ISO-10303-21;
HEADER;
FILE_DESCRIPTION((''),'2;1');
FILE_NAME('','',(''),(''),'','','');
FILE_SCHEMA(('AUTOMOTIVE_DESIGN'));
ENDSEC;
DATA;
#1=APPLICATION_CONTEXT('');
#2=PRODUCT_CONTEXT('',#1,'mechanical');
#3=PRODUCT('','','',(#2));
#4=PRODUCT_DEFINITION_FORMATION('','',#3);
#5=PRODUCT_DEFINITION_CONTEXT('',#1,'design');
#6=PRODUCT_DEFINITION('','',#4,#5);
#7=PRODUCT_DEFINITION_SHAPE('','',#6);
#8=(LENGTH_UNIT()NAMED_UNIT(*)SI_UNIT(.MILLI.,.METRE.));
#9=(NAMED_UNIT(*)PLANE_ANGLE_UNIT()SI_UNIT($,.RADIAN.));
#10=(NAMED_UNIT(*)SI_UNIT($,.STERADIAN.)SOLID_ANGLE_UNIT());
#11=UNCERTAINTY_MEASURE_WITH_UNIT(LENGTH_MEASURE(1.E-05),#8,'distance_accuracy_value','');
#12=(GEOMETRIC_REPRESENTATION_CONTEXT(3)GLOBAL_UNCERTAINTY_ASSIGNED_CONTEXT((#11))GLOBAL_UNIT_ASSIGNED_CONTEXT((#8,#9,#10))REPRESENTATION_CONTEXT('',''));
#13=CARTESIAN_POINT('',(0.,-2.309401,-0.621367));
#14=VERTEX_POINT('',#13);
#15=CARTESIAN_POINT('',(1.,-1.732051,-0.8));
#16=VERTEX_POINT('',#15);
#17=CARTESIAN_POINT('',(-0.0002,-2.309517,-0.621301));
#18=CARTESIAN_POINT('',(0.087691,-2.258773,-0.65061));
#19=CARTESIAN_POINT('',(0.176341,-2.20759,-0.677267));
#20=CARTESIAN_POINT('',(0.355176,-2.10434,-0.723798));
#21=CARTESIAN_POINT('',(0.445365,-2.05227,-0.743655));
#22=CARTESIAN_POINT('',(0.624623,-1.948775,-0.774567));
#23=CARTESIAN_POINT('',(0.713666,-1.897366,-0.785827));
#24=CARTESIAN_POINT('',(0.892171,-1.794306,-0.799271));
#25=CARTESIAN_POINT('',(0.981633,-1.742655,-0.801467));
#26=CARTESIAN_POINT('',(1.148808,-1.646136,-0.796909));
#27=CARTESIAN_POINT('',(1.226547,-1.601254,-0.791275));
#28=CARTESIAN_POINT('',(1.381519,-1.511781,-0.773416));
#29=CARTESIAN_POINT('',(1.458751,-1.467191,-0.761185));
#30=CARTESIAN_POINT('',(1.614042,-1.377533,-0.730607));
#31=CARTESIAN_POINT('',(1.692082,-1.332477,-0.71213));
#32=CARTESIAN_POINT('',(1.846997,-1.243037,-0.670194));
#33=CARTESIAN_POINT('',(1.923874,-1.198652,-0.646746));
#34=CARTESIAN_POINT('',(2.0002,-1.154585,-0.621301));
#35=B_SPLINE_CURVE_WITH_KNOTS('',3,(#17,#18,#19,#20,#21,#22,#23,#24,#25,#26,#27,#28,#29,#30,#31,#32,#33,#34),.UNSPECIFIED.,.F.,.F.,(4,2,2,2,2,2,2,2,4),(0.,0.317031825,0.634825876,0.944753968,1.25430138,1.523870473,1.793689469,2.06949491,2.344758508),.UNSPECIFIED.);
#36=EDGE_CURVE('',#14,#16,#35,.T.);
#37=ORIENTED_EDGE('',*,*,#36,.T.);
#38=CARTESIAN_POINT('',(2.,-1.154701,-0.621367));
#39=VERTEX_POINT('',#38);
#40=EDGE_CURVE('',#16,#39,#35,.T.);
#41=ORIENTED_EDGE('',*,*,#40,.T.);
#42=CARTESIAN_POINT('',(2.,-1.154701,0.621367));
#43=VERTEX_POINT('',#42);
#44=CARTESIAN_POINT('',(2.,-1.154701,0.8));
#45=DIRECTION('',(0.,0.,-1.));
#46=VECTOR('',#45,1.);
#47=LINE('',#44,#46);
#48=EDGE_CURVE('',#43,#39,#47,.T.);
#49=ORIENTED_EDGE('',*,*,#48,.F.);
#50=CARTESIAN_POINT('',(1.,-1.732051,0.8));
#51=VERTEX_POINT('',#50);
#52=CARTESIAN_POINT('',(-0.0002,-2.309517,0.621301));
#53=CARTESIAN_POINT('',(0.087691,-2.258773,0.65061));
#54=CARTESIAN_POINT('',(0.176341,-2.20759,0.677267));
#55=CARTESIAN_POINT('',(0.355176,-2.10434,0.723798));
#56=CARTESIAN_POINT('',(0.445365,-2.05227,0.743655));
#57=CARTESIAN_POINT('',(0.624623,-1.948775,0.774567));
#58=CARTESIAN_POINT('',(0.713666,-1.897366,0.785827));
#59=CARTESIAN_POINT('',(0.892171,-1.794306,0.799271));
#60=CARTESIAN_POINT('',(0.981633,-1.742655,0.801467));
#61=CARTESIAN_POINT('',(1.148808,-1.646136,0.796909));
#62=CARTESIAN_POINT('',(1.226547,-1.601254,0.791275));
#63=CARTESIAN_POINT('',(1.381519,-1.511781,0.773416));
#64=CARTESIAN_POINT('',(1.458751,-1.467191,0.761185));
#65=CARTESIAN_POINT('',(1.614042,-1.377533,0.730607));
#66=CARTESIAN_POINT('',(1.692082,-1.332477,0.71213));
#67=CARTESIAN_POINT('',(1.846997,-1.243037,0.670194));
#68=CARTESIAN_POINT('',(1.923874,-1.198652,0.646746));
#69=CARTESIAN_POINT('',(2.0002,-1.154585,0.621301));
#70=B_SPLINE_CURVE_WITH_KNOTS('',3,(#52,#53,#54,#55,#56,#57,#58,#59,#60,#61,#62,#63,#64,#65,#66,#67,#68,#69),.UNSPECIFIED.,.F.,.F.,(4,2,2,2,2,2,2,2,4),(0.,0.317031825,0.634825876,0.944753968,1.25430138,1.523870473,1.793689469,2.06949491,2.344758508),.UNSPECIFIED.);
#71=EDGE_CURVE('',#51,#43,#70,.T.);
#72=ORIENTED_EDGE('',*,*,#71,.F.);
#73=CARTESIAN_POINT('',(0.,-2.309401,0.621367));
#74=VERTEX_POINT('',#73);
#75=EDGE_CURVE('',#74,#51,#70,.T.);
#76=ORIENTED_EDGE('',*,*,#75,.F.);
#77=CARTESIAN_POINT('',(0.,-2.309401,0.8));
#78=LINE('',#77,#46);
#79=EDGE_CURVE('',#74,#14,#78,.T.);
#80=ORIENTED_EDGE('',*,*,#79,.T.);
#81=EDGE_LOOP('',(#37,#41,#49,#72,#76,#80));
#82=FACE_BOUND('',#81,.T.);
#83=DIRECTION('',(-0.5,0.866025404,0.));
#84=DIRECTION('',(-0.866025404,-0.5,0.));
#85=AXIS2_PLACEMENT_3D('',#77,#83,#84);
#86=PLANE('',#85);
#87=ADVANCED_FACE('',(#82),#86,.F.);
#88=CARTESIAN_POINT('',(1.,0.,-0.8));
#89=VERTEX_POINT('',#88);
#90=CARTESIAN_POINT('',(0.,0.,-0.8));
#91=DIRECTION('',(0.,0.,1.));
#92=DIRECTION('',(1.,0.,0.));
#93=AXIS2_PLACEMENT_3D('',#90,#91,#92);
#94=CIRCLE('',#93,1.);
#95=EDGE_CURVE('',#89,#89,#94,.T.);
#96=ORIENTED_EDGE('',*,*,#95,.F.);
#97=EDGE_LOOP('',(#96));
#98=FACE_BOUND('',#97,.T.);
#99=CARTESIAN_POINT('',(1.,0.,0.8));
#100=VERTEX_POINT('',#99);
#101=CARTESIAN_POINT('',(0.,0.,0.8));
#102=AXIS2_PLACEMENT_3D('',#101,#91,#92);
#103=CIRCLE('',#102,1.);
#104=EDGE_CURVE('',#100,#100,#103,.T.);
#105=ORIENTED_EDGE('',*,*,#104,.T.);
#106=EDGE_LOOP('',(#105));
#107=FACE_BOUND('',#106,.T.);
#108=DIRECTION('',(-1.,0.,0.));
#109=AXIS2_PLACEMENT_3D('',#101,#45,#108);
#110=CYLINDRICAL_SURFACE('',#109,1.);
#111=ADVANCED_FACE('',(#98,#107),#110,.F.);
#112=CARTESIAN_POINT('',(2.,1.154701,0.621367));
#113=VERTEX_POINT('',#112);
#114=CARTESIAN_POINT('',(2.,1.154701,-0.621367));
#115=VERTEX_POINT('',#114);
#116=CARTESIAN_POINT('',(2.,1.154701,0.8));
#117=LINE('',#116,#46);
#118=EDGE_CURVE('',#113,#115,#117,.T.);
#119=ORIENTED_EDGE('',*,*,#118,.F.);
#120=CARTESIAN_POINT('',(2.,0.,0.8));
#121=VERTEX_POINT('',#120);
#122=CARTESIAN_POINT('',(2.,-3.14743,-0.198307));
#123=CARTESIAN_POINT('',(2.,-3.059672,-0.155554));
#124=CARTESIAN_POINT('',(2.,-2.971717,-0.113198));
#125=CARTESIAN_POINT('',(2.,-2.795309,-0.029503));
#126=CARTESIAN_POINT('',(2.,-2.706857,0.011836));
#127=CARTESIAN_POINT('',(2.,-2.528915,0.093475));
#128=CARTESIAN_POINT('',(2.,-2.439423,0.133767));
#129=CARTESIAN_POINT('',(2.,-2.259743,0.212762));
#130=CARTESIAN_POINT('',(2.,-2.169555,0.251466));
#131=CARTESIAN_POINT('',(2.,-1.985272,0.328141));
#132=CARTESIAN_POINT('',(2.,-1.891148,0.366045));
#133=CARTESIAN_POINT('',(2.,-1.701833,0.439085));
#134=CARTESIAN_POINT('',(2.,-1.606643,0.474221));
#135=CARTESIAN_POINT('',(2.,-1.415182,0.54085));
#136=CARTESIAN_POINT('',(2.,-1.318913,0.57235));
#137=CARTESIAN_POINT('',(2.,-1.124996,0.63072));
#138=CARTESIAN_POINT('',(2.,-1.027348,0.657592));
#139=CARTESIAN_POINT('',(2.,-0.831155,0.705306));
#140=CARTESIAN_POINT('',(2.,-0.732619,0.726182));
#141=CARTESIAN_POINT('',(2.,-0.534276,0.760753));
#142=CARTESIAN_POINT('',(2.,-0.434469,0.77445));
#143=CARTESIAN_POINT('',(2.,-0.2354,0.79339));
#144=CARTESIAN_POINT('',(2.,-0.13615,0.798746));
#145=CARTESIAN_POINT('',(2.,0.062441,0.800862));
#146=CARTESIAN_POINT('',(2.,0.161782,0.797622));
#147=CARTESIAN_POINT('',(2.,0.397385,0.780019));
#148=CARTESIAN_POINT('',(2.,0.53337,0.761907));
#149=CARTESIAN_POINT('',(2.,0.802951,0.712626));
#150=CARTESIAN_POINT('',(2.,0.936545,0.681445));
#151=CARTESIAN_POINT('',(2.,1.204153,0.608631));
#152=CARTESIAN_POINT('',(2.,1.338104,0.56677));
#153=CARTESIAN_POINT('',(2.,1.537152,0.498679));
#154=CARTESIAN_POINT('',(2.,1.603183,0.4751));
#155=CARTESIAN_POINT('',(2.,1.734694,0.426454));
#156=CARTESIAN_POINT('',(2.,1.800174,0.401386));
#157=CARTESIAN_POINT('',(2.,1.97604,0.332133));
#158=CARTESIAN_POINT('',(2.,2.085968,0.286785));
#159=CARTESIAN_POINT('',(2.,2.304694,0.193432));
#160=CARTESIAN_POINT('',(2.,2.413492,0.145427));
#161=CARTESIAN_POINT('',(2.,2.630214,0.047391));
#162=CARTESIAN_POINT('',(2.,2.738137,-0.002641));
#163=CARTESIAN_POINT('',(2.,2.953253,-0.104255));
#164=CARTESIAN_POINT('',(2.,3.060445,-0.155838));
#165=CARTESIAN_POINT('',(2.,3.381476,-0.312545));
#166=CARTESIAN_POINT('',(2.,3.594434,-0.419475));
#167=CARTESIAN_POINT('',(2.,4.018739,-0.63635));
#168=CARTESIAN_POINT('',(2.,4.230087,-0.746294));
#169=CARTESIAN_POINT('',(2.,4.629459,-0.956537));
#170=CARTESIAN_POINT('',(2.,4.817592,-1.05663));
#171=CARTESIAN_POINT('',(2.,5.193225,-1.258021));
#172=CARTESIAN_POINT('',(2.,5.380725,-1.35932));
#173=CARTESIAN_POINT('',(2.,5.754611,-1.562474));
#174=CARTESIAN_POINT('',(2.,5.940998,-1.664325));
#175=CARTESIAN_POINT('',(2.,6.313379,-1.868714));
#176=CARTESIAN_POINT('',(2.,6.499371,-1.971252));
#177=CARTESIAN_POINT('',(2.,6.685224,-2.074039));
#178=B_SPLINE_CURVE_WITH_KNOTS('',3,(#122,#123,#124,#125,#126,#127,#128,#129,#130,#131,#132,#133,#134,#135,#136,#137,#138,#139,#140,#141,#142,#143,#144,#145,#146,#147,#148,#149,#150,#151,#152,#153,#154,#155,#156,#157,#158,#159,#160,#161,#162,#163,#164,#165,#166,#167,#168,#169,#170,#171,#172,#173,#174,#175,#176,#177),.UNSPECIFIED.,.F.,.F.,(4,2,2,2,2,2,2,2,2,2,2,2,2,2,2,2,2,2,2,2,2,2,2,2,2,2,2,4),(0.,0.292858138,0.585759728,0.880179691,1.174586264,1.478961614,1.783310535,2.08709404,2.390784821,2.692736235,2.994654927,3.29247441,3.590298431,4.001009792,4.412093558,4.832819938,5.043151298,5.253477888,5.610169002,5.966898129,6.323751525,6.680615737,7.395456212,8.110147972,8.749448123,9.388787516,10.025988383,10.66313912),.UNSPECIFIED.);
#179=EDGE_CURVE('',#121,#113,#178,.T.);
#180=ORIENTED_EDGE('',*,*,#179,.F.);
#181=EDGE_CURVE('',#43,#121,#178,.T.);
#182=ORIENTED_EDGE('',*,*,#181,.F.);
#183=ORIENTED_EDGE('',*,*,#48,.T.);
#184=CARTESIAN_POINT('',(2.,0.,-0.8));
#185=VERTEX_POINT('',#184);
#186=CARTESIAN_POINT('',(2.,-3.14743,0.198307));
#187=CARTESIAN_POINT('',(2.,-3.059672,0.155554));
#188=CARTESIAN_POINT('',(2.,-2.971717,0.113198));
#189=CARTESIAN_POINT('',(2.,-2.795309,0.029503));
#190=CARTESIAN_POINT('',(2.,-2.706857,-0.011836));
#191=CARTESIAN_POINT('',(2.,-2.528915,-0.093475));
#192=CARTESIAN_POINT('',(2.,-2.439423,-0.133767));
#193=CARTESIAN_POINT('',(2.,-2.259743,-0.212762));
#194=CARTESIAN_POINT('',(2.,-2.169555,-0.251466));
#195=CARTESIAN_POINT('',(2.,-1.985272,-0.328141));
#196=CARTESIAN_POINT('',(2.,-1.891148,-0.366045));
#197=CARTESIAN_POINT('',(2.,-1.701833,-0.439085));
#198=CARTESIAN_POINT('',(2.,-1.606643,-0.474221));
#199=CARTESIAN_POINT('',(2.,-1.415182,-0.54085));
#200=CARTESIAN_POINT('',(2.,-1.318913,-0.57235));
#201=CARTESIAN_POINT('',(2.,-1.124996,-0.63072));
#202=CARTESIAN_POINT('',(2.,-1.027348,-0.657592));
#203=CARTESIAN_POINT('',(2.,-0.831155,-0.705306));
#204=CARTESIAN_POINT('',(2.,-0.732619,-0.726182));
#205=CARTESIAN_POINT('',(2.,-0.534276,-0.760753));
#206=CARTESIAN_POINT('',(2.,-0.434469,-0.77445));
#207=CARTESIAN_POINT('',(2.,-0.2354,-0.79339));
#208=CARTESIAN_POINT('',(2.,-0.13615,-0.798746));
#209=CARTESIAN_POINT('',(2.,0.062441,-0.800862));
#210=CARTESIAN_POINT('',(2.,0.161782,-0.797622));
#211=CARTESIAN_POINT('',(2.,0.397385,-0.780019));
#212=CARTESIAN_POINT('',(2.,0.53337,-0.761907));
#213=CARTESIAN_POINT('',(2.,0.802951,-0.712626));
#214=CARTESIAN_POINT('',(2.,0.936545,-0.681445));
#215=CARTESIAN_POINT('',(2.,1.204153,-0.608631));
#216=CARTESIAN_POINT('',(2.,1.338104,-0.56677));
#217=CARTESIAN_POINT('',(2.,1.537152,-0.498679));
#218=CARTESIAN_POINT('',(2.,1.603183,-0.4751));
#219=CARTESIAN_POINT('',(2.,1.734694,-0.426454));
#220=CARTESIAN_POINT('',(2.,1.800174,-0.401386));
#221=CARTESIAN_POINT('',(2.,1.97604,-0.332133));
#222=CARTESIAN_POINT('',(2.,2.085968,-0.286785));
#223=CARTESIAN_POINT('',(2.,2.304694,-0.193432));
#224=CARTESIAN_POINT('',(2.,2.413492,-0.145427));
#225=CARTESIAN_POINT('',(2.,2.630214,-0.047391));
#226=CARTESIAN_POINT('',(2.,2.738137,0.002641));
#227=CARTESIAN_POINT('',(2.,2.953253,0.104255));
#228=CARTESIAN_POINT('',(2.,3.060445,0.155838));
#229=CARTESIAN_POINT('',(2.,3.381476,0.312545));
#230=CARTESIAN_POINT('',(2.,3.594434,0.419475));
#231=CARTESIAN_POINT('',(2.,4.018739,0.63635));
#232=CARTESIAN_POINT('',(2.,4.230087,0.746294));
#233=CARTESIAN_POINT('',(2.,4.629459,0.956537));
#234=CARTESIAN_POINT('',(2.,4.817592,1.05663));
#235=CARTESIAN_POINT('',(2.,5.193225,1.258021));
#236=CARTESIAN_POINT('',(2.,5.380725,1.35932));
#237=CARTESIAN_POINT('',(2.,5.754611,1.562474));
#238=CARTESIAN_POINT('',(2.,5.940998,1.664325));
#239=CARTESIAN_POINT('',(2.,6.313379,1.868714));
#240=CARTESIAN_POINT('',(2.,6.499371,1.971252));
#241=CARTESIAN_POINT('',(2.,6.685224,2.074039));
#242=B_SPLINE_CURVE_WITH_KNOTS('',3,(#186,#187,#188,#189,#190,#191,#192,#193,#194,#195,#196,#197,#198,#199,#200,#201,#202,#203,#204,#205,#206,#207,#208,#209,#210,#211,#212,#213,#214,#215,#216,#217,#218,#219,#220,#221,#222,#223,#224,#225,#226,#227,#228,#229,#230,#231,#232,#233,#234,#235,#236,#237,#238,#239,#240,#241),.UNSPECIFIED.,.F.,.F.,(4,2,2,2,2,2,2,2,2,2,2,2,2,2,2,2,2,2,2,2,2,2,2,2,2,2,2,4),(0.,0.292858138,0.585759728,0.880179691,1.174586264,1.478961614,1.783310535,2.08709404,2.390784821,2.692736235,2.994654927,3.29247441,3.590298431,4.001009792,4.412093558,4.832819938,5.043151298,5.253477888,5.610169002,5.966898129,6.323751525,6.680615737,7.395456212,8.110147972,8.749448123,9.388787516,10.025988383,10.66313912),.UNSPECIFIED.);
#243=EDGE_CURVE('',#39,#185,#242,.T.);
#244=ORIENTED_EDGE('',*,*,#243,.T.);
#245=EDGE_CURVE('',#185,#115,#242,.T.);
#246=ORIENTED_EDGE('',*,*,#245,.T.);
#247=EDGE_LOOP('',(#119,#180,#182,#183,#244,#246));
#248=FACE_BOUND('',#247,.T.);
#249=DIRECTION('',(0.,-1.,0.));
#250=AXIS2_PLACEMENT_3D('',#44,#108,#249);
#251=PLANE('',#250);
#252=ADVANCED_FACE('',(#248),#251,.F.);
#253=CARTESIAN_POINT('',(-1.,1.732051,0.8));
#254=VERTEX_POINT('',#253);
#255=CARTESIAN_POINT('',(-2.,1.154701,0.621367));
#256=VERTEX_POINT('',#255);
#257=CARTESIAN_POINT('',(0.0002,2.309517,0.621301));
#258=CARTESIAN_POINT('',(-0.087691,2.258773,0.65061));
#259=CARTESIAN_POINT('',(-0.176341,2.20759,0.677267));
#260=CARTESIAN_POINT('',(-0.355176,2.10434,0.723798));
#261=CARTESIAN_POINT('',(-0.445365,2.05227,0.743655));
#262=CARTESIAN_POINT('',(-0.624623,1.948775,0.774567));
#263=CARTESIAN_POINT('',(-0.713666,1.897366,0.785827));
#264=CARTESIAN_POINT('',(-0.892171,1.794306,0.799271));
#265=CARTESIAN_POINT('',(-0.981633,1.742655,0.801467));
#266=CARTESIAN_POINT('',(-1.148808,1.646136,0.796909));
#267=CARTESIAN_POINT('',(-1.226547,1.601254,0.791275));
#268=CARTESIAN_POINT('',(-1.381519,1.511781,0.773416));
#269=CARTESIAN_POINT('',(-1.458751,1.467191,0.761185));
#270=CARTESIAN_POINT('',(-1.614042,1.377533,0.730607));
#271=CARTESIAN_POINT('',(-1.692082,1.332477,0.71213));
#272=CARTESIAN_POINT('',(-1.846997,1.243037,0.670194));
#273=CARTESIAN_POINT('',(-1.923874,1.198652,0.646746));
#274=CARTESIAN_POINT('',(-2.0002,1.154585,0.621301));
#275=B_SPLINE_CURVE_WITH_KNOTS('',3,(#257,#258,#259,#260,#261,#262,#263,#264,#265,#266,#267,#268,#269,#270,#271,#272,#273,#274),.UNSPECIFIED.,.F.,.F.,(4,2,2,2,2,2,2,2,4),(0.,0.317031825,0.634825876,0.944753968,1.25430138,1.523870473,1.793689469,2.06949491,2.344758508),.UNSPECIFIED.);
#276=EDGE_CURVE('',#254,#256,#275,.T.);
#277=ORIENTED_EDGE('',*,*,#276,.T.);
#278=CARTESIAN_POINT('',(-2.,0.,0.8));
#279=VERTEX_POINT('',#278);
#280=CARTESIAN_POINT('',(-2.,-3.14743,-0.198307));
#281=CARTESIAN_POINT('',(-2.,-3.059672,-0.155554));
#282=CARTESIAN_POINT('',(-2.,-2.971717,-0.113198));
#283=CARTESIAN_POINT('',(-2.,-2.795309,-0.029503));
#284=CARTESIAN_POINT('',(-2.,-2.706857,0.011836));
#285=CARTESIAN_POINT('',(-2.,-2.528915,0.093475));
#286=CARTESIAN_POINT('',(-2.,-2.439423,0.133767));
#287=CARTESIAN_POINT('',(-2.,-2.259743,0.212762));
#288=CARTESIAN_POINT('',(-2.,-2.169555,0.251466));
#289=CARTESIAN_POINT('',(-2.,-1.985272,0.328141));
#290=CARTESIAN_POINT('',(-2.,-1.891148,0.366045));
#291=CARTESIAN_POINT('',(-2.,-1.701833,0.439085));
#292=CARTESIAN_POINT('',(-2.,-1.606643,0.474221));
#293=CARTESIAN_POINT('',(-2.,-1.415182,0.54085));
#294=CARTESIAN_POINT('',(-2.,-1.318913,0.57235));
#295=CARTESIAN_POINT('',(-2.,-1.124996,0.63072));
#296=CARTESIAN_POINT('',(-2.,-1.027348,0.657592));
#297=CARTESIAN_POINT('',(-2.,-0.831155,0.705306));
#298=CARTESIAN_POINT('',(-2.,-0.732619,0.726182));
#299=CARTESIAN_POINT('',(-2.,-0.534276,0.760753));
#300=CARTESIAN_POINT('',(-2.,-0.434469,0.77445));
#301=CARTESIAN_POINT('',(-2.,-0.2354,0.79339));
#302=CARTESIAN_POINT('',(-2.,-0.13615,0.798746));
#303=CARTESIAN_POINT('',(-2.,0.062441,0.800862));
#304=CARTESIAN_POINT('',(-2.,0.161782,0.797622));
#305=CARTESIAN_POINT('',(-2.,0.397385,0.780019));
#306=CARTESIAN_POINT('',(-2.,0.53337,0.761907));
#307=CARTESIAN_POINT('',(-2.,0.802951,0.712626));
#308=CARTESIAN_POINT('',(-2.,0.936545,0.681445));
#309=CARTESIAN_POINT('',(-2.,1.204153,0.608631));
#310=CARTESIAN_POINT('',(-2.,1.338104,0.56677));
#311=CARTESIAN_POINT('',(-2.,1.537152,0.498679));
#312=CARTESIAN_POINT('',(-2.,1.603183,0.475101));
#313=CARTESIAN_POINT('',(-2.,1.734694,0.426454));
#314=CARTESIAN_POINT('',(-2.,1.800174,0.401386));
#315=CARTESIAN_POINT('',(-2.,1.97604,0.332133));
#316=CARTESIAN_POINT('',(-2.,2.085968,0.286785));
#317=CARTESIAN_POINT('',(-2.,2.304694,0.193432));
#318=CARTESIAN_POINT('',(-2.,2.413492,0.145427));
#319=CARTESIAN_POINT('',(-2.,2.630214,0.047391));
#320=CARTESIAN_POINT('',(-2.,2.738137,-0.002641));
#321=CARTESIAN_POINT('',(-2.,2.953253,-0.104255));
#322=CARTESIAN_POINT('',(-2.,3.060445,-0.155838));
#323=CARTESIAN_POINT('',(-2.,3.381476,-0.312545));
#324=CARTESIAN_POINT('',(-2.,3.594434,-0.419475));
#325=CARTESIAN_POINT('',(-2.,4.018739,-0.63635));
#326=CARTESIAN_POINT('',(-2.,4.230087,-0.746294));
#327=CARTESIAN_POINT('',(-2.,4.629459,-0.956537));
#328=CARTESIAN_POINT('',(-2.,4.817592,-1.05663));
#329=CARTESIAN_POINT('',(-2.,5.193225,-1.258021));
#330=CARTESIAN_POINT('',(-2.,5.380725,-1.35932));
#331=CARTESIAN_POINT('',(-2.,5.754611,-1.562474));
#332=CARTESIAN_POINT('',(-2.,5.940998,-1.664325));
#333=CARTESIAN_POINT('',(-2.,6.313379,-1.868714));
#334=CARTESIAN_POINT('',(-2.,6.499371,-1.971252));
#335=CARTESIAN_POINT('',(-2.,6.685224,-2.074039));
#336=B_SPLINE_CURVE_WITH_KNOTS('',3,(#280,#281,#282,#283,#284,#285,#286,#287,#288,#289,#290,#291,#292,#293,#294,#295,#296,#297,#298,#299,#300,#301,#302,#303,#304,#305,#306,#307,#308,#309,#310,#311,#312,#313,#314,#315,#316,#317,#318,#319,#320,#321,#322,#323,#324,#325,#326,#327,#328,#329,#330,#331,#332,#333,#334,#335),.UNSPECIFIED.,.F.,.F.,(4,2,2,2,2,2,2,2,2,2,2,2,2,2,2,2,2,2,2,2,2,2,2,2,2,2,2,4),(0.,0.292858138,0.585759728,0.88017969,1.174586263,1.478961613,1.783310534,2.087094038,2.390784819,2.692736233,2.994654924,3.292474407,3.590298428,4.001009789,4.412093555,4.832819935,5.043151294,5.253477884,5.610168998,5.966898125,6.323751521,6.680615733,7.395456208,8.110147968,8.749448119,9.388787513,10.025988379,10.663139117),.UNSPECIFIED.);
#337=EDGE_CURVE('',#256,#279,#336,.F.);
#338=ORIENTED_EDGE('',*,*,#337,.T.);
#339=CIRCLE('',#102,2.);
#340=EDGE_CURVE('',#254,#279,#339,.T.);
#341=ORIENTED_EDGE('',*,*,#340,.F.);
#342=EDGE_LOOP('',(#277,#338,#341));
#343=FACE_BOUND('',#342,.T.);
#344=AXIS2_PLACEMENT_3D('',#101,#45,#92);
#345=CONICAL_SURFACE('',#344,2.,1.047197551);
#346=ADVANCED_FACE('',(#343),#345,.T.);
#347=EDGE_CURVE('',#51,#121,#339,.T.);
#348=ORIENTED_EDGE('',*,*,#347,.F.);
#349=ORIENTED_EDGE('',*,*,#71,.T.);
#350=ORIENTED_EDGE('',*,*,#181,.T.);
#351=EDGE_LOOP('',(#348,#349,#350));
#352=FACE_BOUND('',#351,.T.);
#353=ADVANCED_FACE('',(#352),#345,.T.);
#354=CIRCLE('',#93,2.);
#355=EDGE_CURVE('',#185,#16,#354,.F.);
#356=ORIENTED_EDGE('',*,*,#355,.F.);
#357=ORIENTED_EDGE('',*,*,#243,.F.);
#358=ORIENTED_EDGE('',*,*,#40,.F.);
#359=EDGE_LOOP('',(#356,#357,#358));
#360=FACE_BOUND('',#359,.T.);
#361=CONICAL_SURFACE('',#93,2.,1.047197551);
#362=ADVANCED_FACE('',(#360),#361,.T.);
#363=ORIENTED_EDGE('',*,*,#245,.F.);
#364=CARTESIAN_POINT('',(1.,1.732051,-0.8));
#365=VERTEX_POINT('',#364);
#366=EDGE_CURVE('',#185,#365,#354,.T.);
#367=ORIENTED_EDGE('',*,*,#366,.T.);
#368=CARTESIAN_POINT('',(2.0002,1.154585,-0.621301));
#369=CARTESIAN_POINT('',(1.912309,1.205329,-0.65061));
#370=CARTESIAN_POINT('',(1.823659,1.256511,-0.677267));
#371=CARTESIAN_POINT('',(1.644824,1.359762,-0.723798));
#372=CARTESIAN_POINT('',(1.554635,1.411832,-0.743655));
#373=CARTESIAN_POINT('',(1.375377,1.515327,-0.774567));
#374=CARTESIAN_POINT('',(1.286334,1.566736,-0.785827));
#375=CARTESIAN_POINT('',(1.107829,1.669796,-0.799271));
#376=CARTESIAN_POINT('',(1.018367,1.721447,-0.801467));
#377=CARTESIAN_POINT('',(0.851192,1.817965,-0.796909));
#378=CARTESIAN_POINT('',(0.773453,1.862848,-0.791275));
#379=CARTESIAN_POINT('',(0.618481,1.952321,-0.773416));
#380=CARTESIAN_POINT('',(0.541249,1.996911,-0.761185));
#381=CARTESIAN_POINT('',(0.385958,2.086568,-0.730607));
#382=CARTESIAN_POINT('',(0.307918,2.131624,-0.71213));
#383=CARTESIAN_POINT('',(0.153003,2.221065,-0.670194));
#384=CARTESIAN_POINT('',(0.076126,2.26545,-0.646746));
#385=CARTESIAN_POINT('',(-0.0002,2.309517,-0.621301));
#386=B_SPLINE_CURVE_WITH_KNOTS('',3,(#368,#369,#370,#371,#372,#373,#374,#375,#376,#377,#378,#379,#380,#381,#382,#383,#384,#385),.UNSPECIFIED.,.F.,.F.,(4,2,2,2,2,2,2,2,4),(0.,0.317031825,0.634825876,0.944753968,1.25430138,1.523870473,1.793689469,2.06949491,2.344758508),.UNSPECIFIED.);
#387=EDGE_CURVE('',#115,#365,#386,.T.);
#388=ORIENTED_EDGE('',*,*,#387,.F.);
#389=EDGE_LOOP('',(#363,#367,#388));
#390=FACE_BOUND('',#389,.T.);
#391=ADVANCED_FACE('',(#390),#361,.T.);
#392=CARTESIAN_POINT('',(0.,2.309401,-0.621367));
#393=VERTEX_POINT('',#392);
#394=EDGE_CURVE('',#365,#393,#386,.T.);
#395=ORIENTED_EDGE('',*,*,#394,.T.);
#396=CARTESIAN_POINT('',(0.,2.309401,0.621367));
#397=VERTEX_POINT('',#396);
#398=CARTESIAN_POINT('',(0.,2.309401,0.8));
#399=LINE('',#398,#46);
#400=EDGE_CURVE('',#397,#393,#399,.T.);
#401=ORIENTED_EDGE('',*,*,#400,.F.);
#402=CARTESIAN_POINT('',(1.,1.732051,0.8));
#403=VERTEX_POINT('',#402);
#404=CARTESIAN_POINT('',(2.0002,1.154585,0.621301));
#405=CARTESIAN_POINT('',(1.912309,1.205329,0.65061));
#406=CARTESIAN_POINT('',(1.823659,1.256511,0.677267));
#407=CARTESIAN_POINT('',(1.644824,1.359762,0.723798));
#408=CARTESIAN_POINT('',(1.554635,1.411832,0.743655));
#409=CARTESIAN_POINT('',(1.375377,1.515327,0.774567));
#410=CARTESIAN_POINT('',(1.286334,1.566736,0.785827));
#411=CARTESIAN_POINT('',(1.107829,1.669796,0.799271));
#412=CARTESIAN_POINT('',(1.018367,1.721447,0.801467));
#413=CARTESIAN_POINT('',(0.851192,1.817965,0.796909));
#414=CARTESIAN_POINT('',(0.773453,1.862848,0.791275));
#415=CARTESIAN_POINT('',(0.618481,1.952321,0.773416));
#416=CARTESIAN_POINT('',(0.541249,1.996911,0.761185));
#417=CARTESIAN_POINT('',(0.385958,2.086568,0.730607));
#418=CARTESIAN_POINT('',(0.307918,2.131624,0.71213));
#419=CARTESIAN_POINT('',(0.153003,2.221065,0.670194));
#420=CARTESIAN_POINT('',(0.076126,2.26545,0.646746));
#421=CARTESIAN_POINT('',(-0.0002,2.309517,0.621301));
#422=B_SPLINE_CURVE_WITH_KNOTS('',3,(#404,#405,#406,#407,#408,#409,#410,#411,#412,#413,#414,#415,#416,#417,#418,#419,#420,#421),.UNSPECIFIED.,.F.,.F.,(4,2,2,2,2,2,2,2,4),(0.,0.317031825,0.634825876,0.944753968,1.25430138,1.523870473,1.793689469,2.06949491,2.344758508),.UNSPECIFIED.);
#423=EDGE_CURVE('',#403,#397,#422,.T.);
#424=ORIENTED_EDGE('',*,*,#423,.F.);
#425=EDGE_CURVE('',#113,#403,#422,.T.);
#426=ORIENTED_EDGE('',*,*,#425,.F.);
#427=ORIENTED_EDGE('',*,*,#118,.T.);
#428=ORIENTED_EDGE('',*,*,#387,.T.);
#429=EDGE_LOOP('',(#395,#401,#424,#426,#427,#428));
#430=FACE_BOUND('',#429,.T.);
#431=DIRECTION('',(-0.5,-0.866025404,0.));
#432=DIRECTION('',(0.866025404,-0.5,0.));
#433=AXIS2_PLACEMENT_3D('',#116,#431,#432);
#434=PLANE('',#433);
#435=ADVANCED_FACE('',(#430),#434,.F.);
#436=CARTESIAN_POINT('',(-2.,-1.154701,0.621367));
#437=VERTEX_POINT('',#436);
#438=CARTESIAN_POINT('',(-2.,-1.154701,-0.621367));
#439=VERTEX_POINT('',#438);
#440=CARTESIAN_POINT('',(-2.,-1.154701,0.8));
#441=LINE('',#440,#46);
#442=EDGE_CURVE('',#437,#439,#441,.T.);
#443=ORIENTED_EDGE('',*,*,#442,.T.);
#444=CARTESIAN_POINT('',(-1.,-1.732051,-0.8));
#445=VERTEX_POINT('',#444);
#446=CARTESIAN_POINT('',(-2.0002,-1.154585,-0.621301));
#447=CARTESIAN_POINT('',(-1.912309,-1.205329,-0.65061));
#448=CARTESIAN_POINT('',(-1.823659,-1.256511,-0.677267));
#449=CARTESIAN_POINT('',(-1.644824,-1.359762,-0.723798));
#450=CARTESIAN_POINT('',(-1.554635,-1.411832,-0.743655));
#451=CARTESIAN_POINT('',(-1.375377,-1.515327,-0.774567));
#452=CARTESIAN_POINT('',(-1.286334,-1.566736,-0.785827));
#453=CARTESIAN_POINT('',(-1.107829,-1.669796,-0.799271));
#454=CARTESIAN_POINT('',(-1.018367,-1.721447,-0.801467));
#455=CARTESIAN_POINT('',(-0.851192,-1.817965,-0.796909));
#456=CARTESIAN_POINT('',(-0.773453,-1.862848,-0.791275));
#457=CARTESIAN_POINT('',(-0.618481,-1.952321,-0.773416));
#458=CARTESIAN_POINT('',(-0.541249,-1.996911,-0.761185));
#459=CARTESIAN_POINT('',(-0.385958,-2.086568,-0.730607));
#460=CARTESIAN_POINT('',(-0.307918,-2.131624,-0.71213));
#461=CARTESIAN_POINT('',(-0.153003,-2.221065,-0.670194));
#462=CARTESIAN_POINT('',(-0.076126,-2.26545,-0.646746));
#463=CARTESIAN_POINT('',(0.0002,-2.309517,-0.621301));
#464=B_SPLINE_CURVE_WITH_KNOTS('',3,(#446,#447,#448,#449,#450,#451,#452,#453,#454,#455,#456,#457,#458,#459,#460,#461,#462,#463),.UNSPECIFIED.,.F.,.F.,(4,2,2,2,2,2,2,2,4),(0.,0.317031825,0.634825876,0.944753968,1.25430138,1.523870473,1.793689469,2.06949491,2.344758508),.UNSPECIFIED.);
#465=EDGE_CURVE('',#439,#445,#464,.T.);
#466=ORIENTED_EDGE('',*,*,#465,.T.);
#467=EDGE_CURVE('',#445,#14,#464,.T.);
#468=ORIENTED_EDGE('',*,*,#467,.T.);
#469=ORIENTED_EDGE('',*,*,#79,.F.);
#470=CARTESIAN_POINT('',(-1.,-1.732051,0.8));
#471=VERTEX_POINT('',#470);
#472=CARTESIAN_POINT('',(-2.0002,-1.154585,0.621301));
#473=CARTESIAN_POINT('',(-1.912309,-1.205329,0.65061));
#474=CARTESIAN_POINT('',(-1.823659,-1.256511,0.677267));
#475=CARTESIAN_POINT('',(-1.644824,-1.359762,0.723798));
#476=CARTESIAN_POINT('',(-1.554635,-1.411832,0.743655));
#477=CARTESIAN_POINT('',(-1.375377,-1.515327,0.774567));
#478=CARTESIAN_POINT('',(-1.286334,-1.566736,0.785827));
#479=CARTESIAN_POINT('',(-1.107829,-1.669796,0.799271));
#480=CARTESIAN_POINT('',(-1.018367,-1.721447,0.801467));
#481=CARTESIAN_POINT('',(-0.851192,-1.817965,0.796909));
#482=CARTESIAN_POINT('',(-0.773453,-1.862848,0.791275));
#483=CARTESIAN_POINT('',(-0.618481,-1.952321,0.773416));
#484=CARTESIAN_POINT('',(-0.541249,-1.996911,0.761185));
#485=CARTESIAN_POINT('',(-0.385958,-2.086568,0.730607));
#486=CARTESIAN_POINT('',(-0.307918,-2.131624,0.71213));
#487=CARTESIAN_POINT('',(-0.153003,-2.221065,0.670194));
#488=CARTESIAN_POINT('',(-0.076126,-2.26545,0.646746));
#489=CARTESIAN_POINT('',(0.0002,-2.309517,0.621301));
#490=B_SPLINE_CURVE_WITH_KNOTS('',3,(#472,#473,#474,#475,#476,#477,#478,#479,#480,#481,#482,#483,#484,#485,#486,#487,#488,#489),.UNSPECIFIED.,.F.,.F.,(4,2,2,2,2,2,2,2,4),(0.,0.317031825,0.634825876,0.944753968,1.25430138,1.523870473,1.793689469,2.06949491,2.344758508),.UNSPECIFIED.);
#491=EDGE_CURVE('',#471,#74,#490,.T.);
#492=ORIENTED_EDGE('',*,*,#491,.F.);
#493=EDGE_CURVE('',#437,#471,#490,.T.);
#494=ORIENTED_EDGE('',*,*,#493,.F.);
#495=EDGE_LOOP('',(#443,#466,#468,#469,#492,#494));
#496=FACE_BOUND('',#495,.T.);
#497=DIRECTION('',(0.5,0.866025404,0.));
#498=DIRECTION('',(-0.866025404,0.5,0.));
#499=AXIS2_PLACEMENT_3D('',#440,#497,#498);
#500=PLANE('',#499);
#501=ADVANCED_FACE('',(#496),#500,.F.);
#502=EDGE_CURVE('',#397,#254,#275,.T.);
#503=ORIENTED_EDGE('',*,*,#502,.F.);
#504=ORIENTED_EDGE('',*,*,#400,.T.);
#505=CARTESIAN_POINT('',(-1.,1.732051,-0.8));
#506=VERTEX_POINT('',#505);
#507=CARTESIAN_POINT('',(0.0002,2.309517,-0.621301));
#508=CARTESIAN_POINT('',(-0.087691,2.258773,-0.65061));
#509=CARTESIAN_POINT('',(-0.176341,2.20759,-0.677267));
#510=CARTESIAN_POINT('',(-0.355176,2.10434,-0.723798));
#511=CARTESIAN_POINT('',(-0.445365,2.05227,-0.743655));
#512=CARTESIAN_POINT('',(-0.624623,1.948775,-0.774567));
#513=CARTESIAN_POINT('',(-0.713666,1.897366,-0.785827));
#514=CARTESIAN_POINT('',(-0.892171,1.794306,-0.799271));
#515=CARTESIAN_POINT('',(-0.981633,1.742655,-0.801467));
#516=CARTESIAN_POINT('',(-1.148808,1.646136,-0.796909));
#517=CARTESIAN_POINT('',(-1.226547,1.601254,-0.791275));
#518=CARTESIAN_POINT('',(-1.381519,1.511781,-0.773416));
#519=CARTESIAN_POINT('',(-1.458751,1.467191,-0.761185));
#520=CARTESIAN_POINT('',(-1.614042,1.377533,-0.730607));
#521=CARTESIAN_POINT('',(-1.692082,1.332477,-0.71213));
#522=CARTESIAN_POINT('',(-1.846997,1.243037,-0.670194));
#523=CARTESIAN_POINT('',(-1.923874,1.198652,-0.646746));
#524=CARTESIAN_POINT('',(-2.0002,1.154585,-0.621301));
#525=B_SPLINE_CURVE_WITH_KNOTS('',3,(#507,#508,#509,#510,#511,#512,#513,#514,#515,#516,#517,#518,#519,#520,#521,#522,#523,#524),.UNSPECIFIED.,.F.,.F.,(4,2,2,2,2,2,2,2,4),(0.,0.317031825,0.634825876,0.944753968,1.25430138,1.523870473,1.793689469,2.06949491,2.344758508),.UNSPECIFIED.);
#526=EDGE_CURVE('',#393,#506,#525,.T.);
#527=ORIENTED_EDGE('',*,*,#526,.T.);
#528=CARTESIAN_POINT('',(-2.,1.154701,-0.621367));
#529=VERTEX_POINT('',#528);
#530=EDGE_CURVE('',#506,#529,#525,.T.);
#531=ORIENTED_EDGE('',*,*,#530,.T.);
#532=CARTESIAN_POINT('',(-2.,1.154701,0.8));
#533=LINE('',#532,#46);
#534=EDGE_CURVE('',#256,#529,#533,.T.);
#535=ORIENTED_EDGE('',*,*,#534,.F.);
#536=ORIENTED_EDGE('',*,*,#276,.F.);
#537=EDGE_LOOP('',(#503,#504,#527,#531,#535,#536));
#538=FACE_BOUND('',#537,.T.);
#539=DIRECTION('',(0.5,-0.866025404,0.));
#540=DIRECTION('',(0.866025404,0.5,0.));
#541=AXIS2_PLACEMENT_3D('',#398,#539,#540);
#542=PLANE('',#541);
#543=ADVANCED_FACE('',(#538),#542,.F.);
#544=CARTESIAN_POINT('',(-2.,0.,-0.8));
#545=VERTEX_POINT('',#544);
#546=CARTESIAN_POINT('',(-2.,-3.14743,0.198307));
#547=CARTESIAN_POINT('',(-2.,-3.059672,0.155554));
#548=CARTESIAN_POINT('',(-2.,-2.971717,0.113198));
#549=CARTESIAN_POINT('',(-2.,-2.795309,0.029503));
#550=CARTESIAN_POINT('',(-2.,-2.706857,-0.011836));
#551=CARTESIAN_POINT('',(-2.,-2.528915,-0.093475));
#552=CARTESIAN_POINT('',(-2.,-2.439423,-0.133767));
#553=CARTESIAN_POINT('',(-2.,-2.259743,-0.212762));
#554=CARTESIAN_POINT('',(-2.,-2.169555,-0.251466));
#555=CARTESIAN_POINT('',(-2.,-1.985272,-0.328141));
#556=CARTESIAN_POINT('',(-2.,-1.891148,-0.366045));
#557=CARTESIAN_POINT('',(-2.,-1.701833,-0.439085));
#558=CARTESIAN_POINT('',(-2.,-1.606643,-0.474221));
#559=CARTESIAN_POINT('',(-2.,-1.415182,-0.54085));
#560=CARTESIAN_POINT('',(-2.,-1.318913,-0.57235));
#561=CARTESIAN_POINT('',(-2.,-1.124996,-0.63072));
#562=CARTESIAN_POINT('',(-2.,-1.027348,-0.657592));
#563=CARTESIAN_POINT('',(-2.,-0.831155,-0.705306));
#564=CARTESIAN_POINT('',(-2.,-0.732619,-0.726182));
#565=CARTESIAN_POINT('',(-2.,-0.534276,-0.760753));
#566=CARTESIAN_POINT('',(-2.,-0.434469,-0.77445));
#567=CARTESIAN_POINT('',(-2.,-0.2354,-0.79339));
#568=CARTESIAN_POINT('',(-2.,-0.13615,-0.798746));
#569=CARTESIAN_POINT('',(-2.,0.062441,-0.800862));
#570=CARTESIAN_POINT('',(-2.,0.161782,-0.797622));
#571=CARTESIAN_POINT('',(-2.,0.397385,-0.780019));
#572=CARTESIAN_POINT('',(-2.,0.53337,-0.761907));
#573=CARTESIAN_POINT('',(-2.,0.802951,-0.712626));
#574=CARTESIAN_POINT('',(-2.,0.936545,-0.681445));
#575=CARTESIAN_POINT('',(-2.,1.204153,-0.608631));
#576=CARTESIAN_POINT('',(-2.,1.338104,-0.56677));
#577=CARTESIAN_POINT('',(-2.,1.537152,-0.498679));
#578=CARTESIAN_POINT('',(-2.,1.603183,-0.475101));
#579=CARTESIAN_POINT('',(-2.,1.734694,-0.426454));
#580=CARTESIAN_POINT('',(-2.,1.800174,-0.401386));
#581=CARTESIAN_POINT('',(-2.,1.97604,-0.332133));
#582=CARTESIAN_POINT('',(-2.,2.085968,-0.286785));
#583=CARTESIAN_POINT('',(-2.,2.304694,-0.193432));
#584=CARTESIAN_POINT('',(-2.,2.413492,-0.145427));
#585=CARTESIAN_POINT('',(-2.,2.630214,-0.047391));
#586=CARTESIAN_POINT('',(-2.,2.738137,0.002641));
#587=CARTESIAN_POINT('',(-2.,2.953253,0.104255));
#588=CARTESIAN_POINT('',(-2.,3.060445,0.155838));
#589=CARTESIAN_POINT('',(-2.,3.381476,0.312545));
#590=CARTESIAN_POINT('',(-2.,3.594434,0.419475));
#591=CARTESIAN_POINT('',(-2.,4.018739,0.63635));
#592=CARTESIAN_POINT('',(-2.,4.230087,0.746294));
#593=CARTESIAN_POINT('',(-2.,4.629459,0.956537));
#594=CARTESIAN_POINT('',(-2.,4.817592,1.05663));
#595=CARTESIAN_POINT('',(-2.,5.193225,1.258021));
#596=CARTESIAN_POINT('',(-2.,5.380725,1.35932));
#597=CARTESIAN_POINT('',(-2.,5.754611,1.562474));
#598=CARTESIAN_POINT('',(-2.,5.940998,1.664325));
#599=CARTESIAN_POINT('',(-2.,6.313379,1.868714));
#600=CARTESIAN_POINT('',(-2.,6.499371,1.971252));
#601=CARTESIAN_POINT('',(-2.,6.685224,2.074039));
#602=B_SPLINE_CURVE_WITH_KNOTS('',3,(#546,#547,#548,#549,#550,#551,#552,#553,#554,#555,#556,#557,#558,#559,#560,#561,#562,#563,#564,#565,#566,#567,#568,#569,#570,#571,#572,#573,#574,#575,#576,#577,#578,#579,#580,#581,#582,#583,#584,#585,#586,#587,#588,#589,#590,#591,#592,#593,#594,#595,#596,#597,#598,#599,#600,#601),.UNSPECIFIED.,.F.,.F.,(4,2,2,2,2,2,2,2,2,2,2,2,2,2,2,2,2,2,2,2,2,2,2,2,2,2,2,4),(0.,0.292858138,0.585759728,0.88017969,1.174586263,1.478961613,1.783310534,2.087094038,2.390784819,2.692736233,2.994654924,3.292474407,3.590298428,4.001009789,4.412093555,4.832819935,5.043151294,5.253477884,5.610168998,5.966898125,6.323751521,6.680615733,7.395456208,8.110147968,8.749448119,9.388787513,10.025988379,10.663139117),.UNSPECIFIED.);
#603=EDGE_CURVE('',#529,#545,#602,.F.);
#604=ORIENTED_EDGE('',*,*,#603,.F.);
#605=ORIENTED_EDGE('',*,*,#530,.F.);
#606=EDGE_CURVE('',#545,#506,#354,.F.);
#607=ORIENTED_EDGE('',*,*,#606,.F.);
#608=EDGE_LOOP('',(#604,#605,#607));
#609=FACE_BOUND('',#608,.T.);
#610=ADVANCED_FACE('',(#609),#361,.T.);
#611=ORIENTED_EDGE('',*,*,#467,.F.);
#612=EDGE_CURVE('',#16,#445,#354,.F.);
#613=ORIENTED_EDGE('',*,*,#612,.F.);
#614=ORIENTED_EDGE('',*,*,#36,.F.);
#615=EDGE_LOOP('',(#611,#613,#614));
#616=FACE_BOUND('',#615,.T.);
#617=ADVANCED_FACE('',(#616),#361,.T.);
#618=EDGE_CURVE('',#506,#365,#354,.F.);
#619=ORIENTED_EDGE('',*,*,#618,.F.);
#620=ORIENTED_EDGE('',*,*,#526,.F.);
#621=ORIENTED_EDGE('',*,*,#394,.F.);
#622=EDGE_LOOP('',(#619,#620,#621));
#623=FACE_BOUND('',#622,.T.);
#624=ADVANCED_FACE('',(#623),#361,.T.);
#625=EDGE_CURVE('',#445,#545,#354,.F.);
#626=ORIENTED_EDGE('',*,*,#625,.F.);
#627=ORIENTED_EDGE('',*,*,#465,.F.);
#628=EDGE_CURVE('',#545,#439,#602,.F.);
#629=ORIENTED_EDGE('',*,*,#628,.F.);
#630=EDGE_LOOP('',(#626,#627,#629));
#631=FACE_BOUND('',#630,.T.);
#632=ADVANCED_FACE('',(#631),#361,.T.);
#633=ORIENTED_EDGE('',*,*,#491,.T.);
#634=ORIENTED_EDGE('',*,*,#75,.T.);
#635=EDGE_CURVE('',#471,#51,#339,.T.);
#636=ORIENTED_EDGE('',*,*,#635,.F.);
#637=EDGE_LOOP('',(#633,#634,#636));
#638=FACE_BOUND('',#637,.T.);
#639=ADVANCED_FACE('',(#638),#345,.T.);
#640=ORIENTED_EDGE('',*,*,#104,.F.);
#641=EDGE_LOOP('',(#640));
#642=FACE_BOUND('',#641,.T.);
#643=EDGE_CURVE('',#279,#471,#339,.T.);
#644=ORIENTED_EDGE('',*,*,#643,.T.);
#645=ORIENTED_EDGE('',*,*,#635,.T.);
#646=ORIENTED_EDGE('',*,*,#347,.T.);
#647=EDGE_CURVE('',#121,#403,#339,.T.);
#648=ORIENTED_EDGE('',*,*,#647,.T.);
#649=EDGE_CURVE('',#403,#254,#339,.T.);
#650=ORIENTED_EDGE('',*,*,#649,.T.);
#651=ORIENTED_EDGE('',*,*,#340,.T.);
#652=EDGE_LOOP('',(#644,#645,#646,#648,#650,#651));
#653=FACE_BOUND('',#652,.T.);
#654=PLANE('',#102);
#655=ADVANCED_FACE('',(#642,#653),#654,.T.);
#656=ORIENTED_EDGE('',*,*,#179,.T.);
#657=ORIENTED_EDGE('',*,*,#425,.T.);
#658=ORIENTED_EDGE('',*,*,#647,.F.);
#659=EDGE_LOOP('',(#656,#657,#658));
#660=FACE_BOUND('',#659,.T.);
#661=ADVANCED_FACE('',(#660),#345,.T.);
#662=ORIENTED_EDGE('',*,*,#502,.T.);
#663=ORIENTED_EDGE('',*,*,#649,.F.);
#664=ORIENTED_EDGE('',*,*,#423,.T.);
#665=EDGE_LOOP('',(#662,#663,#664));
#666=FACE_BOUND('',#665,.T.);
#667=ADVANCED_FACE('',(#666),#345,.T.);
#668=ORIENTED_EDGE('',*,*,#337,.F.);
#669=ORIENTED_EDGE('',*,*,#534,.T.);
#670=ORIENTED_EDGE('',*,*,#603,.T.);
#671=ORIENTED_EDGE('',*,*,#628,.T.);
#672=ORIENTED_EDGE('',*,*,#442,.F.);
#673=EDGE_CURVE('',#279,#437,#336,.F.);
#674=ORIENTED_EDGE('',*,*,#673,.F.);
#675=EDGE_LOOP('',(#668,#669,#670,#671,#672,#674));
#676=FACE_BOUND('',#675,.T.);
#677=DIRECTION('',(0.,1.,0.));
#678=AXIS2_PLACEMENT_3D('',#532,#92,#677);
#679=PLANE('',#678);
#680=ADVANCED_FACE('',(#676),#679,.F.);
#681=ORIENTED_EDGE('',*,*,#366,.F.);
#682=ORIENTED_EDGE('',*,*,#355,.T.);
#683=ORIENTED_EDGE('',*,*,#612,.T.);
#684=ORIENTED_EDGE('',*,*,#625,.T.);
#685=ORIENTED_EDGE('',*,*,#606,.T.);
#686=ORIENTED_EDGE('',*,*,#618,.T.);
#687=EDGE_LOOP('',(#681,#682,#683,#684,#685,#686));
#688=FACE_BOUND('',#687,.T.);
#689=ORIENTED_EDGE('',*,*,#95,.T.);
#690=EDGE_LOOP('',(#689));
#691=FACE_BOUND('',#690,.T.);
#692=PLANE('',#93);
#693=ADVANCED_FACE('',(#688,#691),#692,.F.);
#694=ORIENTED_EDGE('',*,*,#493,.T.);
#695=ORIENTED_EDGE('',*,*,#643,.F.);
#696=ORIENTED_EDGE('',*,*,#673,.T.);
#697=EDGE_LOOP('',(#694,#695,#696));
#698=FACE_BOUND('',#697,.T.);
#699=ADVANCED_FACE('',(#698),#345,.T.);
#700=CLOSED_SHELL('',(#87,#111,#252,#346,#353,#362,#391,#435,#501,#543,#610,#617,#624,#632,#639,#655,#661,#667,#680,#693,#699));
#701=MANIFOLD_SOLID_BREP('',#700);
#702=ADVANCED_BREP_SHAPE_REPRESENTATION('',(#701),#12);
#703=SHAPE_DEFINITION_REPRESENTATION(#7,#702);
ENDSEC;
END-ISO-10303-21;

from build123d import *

# Parameters (mm, degrees)
SKETCH2_R                = 1
BOSS_EXTRUDE1_DEPTH      = 0.8
BOSS_EXTRUDE1_DEPTH_BACK = 0.8
SKETCH3_OUTSIDE_W        = 16.27
SKETCH3_OUTSIDE_H        = 16.888
SKETCH3_OUTSIDE_R        = 2
CUT_EXTRUDE1_DEPTH       = 2.6
CUT_EXTRUDE1_TAPER       = 60


with BuildPart() as part:
    # Sketch2 → Boss-Extrude1 (new body, two sides)
    with BuildSketch(Plane.XY) as boss_extrude1_sk:
        Polygon((0, 2.309401077), (-2, 1.154700538), (-2, -1.154700538), (0, -2.309401077), (2, -1.154700538), (2, 1.154700538), align=None)
        Circle(SKETCH2_R, mode=Mode.SUBTRACT)
    extrude(amount=BOSS_EXTRUDE1_DEPTH)
    extrude(boss_extrude1_sk.sketch, amount=-BOSS_EXTRUDE1_DEPTH_BACK)

    # Sketch3 outside → Cut-Extrude1 (cut, through all)
    with BuildSketch(Plane.XY.offset(0.8)):
        Rectangle(SKETCH3_OUTSIDE_W, SKETCH3_OUTSIDE_H)
        Circle(SKETCH3_OUTSIDE_R, mode=Mode.SUBTRACT)
    cut_extrude1 = extrude(amount=-CUT_EXTRUDE1_DEPTH, taper=CUT_EXTRUDE1_TAPER, mode=Mode.SUBTRACT)

    # Mirror1: Cut-Extrude1 across plane
    add(cut_extrude1.mirror(Plane.XY), mode=Mode.SUBTRACT)


solid = part.part
